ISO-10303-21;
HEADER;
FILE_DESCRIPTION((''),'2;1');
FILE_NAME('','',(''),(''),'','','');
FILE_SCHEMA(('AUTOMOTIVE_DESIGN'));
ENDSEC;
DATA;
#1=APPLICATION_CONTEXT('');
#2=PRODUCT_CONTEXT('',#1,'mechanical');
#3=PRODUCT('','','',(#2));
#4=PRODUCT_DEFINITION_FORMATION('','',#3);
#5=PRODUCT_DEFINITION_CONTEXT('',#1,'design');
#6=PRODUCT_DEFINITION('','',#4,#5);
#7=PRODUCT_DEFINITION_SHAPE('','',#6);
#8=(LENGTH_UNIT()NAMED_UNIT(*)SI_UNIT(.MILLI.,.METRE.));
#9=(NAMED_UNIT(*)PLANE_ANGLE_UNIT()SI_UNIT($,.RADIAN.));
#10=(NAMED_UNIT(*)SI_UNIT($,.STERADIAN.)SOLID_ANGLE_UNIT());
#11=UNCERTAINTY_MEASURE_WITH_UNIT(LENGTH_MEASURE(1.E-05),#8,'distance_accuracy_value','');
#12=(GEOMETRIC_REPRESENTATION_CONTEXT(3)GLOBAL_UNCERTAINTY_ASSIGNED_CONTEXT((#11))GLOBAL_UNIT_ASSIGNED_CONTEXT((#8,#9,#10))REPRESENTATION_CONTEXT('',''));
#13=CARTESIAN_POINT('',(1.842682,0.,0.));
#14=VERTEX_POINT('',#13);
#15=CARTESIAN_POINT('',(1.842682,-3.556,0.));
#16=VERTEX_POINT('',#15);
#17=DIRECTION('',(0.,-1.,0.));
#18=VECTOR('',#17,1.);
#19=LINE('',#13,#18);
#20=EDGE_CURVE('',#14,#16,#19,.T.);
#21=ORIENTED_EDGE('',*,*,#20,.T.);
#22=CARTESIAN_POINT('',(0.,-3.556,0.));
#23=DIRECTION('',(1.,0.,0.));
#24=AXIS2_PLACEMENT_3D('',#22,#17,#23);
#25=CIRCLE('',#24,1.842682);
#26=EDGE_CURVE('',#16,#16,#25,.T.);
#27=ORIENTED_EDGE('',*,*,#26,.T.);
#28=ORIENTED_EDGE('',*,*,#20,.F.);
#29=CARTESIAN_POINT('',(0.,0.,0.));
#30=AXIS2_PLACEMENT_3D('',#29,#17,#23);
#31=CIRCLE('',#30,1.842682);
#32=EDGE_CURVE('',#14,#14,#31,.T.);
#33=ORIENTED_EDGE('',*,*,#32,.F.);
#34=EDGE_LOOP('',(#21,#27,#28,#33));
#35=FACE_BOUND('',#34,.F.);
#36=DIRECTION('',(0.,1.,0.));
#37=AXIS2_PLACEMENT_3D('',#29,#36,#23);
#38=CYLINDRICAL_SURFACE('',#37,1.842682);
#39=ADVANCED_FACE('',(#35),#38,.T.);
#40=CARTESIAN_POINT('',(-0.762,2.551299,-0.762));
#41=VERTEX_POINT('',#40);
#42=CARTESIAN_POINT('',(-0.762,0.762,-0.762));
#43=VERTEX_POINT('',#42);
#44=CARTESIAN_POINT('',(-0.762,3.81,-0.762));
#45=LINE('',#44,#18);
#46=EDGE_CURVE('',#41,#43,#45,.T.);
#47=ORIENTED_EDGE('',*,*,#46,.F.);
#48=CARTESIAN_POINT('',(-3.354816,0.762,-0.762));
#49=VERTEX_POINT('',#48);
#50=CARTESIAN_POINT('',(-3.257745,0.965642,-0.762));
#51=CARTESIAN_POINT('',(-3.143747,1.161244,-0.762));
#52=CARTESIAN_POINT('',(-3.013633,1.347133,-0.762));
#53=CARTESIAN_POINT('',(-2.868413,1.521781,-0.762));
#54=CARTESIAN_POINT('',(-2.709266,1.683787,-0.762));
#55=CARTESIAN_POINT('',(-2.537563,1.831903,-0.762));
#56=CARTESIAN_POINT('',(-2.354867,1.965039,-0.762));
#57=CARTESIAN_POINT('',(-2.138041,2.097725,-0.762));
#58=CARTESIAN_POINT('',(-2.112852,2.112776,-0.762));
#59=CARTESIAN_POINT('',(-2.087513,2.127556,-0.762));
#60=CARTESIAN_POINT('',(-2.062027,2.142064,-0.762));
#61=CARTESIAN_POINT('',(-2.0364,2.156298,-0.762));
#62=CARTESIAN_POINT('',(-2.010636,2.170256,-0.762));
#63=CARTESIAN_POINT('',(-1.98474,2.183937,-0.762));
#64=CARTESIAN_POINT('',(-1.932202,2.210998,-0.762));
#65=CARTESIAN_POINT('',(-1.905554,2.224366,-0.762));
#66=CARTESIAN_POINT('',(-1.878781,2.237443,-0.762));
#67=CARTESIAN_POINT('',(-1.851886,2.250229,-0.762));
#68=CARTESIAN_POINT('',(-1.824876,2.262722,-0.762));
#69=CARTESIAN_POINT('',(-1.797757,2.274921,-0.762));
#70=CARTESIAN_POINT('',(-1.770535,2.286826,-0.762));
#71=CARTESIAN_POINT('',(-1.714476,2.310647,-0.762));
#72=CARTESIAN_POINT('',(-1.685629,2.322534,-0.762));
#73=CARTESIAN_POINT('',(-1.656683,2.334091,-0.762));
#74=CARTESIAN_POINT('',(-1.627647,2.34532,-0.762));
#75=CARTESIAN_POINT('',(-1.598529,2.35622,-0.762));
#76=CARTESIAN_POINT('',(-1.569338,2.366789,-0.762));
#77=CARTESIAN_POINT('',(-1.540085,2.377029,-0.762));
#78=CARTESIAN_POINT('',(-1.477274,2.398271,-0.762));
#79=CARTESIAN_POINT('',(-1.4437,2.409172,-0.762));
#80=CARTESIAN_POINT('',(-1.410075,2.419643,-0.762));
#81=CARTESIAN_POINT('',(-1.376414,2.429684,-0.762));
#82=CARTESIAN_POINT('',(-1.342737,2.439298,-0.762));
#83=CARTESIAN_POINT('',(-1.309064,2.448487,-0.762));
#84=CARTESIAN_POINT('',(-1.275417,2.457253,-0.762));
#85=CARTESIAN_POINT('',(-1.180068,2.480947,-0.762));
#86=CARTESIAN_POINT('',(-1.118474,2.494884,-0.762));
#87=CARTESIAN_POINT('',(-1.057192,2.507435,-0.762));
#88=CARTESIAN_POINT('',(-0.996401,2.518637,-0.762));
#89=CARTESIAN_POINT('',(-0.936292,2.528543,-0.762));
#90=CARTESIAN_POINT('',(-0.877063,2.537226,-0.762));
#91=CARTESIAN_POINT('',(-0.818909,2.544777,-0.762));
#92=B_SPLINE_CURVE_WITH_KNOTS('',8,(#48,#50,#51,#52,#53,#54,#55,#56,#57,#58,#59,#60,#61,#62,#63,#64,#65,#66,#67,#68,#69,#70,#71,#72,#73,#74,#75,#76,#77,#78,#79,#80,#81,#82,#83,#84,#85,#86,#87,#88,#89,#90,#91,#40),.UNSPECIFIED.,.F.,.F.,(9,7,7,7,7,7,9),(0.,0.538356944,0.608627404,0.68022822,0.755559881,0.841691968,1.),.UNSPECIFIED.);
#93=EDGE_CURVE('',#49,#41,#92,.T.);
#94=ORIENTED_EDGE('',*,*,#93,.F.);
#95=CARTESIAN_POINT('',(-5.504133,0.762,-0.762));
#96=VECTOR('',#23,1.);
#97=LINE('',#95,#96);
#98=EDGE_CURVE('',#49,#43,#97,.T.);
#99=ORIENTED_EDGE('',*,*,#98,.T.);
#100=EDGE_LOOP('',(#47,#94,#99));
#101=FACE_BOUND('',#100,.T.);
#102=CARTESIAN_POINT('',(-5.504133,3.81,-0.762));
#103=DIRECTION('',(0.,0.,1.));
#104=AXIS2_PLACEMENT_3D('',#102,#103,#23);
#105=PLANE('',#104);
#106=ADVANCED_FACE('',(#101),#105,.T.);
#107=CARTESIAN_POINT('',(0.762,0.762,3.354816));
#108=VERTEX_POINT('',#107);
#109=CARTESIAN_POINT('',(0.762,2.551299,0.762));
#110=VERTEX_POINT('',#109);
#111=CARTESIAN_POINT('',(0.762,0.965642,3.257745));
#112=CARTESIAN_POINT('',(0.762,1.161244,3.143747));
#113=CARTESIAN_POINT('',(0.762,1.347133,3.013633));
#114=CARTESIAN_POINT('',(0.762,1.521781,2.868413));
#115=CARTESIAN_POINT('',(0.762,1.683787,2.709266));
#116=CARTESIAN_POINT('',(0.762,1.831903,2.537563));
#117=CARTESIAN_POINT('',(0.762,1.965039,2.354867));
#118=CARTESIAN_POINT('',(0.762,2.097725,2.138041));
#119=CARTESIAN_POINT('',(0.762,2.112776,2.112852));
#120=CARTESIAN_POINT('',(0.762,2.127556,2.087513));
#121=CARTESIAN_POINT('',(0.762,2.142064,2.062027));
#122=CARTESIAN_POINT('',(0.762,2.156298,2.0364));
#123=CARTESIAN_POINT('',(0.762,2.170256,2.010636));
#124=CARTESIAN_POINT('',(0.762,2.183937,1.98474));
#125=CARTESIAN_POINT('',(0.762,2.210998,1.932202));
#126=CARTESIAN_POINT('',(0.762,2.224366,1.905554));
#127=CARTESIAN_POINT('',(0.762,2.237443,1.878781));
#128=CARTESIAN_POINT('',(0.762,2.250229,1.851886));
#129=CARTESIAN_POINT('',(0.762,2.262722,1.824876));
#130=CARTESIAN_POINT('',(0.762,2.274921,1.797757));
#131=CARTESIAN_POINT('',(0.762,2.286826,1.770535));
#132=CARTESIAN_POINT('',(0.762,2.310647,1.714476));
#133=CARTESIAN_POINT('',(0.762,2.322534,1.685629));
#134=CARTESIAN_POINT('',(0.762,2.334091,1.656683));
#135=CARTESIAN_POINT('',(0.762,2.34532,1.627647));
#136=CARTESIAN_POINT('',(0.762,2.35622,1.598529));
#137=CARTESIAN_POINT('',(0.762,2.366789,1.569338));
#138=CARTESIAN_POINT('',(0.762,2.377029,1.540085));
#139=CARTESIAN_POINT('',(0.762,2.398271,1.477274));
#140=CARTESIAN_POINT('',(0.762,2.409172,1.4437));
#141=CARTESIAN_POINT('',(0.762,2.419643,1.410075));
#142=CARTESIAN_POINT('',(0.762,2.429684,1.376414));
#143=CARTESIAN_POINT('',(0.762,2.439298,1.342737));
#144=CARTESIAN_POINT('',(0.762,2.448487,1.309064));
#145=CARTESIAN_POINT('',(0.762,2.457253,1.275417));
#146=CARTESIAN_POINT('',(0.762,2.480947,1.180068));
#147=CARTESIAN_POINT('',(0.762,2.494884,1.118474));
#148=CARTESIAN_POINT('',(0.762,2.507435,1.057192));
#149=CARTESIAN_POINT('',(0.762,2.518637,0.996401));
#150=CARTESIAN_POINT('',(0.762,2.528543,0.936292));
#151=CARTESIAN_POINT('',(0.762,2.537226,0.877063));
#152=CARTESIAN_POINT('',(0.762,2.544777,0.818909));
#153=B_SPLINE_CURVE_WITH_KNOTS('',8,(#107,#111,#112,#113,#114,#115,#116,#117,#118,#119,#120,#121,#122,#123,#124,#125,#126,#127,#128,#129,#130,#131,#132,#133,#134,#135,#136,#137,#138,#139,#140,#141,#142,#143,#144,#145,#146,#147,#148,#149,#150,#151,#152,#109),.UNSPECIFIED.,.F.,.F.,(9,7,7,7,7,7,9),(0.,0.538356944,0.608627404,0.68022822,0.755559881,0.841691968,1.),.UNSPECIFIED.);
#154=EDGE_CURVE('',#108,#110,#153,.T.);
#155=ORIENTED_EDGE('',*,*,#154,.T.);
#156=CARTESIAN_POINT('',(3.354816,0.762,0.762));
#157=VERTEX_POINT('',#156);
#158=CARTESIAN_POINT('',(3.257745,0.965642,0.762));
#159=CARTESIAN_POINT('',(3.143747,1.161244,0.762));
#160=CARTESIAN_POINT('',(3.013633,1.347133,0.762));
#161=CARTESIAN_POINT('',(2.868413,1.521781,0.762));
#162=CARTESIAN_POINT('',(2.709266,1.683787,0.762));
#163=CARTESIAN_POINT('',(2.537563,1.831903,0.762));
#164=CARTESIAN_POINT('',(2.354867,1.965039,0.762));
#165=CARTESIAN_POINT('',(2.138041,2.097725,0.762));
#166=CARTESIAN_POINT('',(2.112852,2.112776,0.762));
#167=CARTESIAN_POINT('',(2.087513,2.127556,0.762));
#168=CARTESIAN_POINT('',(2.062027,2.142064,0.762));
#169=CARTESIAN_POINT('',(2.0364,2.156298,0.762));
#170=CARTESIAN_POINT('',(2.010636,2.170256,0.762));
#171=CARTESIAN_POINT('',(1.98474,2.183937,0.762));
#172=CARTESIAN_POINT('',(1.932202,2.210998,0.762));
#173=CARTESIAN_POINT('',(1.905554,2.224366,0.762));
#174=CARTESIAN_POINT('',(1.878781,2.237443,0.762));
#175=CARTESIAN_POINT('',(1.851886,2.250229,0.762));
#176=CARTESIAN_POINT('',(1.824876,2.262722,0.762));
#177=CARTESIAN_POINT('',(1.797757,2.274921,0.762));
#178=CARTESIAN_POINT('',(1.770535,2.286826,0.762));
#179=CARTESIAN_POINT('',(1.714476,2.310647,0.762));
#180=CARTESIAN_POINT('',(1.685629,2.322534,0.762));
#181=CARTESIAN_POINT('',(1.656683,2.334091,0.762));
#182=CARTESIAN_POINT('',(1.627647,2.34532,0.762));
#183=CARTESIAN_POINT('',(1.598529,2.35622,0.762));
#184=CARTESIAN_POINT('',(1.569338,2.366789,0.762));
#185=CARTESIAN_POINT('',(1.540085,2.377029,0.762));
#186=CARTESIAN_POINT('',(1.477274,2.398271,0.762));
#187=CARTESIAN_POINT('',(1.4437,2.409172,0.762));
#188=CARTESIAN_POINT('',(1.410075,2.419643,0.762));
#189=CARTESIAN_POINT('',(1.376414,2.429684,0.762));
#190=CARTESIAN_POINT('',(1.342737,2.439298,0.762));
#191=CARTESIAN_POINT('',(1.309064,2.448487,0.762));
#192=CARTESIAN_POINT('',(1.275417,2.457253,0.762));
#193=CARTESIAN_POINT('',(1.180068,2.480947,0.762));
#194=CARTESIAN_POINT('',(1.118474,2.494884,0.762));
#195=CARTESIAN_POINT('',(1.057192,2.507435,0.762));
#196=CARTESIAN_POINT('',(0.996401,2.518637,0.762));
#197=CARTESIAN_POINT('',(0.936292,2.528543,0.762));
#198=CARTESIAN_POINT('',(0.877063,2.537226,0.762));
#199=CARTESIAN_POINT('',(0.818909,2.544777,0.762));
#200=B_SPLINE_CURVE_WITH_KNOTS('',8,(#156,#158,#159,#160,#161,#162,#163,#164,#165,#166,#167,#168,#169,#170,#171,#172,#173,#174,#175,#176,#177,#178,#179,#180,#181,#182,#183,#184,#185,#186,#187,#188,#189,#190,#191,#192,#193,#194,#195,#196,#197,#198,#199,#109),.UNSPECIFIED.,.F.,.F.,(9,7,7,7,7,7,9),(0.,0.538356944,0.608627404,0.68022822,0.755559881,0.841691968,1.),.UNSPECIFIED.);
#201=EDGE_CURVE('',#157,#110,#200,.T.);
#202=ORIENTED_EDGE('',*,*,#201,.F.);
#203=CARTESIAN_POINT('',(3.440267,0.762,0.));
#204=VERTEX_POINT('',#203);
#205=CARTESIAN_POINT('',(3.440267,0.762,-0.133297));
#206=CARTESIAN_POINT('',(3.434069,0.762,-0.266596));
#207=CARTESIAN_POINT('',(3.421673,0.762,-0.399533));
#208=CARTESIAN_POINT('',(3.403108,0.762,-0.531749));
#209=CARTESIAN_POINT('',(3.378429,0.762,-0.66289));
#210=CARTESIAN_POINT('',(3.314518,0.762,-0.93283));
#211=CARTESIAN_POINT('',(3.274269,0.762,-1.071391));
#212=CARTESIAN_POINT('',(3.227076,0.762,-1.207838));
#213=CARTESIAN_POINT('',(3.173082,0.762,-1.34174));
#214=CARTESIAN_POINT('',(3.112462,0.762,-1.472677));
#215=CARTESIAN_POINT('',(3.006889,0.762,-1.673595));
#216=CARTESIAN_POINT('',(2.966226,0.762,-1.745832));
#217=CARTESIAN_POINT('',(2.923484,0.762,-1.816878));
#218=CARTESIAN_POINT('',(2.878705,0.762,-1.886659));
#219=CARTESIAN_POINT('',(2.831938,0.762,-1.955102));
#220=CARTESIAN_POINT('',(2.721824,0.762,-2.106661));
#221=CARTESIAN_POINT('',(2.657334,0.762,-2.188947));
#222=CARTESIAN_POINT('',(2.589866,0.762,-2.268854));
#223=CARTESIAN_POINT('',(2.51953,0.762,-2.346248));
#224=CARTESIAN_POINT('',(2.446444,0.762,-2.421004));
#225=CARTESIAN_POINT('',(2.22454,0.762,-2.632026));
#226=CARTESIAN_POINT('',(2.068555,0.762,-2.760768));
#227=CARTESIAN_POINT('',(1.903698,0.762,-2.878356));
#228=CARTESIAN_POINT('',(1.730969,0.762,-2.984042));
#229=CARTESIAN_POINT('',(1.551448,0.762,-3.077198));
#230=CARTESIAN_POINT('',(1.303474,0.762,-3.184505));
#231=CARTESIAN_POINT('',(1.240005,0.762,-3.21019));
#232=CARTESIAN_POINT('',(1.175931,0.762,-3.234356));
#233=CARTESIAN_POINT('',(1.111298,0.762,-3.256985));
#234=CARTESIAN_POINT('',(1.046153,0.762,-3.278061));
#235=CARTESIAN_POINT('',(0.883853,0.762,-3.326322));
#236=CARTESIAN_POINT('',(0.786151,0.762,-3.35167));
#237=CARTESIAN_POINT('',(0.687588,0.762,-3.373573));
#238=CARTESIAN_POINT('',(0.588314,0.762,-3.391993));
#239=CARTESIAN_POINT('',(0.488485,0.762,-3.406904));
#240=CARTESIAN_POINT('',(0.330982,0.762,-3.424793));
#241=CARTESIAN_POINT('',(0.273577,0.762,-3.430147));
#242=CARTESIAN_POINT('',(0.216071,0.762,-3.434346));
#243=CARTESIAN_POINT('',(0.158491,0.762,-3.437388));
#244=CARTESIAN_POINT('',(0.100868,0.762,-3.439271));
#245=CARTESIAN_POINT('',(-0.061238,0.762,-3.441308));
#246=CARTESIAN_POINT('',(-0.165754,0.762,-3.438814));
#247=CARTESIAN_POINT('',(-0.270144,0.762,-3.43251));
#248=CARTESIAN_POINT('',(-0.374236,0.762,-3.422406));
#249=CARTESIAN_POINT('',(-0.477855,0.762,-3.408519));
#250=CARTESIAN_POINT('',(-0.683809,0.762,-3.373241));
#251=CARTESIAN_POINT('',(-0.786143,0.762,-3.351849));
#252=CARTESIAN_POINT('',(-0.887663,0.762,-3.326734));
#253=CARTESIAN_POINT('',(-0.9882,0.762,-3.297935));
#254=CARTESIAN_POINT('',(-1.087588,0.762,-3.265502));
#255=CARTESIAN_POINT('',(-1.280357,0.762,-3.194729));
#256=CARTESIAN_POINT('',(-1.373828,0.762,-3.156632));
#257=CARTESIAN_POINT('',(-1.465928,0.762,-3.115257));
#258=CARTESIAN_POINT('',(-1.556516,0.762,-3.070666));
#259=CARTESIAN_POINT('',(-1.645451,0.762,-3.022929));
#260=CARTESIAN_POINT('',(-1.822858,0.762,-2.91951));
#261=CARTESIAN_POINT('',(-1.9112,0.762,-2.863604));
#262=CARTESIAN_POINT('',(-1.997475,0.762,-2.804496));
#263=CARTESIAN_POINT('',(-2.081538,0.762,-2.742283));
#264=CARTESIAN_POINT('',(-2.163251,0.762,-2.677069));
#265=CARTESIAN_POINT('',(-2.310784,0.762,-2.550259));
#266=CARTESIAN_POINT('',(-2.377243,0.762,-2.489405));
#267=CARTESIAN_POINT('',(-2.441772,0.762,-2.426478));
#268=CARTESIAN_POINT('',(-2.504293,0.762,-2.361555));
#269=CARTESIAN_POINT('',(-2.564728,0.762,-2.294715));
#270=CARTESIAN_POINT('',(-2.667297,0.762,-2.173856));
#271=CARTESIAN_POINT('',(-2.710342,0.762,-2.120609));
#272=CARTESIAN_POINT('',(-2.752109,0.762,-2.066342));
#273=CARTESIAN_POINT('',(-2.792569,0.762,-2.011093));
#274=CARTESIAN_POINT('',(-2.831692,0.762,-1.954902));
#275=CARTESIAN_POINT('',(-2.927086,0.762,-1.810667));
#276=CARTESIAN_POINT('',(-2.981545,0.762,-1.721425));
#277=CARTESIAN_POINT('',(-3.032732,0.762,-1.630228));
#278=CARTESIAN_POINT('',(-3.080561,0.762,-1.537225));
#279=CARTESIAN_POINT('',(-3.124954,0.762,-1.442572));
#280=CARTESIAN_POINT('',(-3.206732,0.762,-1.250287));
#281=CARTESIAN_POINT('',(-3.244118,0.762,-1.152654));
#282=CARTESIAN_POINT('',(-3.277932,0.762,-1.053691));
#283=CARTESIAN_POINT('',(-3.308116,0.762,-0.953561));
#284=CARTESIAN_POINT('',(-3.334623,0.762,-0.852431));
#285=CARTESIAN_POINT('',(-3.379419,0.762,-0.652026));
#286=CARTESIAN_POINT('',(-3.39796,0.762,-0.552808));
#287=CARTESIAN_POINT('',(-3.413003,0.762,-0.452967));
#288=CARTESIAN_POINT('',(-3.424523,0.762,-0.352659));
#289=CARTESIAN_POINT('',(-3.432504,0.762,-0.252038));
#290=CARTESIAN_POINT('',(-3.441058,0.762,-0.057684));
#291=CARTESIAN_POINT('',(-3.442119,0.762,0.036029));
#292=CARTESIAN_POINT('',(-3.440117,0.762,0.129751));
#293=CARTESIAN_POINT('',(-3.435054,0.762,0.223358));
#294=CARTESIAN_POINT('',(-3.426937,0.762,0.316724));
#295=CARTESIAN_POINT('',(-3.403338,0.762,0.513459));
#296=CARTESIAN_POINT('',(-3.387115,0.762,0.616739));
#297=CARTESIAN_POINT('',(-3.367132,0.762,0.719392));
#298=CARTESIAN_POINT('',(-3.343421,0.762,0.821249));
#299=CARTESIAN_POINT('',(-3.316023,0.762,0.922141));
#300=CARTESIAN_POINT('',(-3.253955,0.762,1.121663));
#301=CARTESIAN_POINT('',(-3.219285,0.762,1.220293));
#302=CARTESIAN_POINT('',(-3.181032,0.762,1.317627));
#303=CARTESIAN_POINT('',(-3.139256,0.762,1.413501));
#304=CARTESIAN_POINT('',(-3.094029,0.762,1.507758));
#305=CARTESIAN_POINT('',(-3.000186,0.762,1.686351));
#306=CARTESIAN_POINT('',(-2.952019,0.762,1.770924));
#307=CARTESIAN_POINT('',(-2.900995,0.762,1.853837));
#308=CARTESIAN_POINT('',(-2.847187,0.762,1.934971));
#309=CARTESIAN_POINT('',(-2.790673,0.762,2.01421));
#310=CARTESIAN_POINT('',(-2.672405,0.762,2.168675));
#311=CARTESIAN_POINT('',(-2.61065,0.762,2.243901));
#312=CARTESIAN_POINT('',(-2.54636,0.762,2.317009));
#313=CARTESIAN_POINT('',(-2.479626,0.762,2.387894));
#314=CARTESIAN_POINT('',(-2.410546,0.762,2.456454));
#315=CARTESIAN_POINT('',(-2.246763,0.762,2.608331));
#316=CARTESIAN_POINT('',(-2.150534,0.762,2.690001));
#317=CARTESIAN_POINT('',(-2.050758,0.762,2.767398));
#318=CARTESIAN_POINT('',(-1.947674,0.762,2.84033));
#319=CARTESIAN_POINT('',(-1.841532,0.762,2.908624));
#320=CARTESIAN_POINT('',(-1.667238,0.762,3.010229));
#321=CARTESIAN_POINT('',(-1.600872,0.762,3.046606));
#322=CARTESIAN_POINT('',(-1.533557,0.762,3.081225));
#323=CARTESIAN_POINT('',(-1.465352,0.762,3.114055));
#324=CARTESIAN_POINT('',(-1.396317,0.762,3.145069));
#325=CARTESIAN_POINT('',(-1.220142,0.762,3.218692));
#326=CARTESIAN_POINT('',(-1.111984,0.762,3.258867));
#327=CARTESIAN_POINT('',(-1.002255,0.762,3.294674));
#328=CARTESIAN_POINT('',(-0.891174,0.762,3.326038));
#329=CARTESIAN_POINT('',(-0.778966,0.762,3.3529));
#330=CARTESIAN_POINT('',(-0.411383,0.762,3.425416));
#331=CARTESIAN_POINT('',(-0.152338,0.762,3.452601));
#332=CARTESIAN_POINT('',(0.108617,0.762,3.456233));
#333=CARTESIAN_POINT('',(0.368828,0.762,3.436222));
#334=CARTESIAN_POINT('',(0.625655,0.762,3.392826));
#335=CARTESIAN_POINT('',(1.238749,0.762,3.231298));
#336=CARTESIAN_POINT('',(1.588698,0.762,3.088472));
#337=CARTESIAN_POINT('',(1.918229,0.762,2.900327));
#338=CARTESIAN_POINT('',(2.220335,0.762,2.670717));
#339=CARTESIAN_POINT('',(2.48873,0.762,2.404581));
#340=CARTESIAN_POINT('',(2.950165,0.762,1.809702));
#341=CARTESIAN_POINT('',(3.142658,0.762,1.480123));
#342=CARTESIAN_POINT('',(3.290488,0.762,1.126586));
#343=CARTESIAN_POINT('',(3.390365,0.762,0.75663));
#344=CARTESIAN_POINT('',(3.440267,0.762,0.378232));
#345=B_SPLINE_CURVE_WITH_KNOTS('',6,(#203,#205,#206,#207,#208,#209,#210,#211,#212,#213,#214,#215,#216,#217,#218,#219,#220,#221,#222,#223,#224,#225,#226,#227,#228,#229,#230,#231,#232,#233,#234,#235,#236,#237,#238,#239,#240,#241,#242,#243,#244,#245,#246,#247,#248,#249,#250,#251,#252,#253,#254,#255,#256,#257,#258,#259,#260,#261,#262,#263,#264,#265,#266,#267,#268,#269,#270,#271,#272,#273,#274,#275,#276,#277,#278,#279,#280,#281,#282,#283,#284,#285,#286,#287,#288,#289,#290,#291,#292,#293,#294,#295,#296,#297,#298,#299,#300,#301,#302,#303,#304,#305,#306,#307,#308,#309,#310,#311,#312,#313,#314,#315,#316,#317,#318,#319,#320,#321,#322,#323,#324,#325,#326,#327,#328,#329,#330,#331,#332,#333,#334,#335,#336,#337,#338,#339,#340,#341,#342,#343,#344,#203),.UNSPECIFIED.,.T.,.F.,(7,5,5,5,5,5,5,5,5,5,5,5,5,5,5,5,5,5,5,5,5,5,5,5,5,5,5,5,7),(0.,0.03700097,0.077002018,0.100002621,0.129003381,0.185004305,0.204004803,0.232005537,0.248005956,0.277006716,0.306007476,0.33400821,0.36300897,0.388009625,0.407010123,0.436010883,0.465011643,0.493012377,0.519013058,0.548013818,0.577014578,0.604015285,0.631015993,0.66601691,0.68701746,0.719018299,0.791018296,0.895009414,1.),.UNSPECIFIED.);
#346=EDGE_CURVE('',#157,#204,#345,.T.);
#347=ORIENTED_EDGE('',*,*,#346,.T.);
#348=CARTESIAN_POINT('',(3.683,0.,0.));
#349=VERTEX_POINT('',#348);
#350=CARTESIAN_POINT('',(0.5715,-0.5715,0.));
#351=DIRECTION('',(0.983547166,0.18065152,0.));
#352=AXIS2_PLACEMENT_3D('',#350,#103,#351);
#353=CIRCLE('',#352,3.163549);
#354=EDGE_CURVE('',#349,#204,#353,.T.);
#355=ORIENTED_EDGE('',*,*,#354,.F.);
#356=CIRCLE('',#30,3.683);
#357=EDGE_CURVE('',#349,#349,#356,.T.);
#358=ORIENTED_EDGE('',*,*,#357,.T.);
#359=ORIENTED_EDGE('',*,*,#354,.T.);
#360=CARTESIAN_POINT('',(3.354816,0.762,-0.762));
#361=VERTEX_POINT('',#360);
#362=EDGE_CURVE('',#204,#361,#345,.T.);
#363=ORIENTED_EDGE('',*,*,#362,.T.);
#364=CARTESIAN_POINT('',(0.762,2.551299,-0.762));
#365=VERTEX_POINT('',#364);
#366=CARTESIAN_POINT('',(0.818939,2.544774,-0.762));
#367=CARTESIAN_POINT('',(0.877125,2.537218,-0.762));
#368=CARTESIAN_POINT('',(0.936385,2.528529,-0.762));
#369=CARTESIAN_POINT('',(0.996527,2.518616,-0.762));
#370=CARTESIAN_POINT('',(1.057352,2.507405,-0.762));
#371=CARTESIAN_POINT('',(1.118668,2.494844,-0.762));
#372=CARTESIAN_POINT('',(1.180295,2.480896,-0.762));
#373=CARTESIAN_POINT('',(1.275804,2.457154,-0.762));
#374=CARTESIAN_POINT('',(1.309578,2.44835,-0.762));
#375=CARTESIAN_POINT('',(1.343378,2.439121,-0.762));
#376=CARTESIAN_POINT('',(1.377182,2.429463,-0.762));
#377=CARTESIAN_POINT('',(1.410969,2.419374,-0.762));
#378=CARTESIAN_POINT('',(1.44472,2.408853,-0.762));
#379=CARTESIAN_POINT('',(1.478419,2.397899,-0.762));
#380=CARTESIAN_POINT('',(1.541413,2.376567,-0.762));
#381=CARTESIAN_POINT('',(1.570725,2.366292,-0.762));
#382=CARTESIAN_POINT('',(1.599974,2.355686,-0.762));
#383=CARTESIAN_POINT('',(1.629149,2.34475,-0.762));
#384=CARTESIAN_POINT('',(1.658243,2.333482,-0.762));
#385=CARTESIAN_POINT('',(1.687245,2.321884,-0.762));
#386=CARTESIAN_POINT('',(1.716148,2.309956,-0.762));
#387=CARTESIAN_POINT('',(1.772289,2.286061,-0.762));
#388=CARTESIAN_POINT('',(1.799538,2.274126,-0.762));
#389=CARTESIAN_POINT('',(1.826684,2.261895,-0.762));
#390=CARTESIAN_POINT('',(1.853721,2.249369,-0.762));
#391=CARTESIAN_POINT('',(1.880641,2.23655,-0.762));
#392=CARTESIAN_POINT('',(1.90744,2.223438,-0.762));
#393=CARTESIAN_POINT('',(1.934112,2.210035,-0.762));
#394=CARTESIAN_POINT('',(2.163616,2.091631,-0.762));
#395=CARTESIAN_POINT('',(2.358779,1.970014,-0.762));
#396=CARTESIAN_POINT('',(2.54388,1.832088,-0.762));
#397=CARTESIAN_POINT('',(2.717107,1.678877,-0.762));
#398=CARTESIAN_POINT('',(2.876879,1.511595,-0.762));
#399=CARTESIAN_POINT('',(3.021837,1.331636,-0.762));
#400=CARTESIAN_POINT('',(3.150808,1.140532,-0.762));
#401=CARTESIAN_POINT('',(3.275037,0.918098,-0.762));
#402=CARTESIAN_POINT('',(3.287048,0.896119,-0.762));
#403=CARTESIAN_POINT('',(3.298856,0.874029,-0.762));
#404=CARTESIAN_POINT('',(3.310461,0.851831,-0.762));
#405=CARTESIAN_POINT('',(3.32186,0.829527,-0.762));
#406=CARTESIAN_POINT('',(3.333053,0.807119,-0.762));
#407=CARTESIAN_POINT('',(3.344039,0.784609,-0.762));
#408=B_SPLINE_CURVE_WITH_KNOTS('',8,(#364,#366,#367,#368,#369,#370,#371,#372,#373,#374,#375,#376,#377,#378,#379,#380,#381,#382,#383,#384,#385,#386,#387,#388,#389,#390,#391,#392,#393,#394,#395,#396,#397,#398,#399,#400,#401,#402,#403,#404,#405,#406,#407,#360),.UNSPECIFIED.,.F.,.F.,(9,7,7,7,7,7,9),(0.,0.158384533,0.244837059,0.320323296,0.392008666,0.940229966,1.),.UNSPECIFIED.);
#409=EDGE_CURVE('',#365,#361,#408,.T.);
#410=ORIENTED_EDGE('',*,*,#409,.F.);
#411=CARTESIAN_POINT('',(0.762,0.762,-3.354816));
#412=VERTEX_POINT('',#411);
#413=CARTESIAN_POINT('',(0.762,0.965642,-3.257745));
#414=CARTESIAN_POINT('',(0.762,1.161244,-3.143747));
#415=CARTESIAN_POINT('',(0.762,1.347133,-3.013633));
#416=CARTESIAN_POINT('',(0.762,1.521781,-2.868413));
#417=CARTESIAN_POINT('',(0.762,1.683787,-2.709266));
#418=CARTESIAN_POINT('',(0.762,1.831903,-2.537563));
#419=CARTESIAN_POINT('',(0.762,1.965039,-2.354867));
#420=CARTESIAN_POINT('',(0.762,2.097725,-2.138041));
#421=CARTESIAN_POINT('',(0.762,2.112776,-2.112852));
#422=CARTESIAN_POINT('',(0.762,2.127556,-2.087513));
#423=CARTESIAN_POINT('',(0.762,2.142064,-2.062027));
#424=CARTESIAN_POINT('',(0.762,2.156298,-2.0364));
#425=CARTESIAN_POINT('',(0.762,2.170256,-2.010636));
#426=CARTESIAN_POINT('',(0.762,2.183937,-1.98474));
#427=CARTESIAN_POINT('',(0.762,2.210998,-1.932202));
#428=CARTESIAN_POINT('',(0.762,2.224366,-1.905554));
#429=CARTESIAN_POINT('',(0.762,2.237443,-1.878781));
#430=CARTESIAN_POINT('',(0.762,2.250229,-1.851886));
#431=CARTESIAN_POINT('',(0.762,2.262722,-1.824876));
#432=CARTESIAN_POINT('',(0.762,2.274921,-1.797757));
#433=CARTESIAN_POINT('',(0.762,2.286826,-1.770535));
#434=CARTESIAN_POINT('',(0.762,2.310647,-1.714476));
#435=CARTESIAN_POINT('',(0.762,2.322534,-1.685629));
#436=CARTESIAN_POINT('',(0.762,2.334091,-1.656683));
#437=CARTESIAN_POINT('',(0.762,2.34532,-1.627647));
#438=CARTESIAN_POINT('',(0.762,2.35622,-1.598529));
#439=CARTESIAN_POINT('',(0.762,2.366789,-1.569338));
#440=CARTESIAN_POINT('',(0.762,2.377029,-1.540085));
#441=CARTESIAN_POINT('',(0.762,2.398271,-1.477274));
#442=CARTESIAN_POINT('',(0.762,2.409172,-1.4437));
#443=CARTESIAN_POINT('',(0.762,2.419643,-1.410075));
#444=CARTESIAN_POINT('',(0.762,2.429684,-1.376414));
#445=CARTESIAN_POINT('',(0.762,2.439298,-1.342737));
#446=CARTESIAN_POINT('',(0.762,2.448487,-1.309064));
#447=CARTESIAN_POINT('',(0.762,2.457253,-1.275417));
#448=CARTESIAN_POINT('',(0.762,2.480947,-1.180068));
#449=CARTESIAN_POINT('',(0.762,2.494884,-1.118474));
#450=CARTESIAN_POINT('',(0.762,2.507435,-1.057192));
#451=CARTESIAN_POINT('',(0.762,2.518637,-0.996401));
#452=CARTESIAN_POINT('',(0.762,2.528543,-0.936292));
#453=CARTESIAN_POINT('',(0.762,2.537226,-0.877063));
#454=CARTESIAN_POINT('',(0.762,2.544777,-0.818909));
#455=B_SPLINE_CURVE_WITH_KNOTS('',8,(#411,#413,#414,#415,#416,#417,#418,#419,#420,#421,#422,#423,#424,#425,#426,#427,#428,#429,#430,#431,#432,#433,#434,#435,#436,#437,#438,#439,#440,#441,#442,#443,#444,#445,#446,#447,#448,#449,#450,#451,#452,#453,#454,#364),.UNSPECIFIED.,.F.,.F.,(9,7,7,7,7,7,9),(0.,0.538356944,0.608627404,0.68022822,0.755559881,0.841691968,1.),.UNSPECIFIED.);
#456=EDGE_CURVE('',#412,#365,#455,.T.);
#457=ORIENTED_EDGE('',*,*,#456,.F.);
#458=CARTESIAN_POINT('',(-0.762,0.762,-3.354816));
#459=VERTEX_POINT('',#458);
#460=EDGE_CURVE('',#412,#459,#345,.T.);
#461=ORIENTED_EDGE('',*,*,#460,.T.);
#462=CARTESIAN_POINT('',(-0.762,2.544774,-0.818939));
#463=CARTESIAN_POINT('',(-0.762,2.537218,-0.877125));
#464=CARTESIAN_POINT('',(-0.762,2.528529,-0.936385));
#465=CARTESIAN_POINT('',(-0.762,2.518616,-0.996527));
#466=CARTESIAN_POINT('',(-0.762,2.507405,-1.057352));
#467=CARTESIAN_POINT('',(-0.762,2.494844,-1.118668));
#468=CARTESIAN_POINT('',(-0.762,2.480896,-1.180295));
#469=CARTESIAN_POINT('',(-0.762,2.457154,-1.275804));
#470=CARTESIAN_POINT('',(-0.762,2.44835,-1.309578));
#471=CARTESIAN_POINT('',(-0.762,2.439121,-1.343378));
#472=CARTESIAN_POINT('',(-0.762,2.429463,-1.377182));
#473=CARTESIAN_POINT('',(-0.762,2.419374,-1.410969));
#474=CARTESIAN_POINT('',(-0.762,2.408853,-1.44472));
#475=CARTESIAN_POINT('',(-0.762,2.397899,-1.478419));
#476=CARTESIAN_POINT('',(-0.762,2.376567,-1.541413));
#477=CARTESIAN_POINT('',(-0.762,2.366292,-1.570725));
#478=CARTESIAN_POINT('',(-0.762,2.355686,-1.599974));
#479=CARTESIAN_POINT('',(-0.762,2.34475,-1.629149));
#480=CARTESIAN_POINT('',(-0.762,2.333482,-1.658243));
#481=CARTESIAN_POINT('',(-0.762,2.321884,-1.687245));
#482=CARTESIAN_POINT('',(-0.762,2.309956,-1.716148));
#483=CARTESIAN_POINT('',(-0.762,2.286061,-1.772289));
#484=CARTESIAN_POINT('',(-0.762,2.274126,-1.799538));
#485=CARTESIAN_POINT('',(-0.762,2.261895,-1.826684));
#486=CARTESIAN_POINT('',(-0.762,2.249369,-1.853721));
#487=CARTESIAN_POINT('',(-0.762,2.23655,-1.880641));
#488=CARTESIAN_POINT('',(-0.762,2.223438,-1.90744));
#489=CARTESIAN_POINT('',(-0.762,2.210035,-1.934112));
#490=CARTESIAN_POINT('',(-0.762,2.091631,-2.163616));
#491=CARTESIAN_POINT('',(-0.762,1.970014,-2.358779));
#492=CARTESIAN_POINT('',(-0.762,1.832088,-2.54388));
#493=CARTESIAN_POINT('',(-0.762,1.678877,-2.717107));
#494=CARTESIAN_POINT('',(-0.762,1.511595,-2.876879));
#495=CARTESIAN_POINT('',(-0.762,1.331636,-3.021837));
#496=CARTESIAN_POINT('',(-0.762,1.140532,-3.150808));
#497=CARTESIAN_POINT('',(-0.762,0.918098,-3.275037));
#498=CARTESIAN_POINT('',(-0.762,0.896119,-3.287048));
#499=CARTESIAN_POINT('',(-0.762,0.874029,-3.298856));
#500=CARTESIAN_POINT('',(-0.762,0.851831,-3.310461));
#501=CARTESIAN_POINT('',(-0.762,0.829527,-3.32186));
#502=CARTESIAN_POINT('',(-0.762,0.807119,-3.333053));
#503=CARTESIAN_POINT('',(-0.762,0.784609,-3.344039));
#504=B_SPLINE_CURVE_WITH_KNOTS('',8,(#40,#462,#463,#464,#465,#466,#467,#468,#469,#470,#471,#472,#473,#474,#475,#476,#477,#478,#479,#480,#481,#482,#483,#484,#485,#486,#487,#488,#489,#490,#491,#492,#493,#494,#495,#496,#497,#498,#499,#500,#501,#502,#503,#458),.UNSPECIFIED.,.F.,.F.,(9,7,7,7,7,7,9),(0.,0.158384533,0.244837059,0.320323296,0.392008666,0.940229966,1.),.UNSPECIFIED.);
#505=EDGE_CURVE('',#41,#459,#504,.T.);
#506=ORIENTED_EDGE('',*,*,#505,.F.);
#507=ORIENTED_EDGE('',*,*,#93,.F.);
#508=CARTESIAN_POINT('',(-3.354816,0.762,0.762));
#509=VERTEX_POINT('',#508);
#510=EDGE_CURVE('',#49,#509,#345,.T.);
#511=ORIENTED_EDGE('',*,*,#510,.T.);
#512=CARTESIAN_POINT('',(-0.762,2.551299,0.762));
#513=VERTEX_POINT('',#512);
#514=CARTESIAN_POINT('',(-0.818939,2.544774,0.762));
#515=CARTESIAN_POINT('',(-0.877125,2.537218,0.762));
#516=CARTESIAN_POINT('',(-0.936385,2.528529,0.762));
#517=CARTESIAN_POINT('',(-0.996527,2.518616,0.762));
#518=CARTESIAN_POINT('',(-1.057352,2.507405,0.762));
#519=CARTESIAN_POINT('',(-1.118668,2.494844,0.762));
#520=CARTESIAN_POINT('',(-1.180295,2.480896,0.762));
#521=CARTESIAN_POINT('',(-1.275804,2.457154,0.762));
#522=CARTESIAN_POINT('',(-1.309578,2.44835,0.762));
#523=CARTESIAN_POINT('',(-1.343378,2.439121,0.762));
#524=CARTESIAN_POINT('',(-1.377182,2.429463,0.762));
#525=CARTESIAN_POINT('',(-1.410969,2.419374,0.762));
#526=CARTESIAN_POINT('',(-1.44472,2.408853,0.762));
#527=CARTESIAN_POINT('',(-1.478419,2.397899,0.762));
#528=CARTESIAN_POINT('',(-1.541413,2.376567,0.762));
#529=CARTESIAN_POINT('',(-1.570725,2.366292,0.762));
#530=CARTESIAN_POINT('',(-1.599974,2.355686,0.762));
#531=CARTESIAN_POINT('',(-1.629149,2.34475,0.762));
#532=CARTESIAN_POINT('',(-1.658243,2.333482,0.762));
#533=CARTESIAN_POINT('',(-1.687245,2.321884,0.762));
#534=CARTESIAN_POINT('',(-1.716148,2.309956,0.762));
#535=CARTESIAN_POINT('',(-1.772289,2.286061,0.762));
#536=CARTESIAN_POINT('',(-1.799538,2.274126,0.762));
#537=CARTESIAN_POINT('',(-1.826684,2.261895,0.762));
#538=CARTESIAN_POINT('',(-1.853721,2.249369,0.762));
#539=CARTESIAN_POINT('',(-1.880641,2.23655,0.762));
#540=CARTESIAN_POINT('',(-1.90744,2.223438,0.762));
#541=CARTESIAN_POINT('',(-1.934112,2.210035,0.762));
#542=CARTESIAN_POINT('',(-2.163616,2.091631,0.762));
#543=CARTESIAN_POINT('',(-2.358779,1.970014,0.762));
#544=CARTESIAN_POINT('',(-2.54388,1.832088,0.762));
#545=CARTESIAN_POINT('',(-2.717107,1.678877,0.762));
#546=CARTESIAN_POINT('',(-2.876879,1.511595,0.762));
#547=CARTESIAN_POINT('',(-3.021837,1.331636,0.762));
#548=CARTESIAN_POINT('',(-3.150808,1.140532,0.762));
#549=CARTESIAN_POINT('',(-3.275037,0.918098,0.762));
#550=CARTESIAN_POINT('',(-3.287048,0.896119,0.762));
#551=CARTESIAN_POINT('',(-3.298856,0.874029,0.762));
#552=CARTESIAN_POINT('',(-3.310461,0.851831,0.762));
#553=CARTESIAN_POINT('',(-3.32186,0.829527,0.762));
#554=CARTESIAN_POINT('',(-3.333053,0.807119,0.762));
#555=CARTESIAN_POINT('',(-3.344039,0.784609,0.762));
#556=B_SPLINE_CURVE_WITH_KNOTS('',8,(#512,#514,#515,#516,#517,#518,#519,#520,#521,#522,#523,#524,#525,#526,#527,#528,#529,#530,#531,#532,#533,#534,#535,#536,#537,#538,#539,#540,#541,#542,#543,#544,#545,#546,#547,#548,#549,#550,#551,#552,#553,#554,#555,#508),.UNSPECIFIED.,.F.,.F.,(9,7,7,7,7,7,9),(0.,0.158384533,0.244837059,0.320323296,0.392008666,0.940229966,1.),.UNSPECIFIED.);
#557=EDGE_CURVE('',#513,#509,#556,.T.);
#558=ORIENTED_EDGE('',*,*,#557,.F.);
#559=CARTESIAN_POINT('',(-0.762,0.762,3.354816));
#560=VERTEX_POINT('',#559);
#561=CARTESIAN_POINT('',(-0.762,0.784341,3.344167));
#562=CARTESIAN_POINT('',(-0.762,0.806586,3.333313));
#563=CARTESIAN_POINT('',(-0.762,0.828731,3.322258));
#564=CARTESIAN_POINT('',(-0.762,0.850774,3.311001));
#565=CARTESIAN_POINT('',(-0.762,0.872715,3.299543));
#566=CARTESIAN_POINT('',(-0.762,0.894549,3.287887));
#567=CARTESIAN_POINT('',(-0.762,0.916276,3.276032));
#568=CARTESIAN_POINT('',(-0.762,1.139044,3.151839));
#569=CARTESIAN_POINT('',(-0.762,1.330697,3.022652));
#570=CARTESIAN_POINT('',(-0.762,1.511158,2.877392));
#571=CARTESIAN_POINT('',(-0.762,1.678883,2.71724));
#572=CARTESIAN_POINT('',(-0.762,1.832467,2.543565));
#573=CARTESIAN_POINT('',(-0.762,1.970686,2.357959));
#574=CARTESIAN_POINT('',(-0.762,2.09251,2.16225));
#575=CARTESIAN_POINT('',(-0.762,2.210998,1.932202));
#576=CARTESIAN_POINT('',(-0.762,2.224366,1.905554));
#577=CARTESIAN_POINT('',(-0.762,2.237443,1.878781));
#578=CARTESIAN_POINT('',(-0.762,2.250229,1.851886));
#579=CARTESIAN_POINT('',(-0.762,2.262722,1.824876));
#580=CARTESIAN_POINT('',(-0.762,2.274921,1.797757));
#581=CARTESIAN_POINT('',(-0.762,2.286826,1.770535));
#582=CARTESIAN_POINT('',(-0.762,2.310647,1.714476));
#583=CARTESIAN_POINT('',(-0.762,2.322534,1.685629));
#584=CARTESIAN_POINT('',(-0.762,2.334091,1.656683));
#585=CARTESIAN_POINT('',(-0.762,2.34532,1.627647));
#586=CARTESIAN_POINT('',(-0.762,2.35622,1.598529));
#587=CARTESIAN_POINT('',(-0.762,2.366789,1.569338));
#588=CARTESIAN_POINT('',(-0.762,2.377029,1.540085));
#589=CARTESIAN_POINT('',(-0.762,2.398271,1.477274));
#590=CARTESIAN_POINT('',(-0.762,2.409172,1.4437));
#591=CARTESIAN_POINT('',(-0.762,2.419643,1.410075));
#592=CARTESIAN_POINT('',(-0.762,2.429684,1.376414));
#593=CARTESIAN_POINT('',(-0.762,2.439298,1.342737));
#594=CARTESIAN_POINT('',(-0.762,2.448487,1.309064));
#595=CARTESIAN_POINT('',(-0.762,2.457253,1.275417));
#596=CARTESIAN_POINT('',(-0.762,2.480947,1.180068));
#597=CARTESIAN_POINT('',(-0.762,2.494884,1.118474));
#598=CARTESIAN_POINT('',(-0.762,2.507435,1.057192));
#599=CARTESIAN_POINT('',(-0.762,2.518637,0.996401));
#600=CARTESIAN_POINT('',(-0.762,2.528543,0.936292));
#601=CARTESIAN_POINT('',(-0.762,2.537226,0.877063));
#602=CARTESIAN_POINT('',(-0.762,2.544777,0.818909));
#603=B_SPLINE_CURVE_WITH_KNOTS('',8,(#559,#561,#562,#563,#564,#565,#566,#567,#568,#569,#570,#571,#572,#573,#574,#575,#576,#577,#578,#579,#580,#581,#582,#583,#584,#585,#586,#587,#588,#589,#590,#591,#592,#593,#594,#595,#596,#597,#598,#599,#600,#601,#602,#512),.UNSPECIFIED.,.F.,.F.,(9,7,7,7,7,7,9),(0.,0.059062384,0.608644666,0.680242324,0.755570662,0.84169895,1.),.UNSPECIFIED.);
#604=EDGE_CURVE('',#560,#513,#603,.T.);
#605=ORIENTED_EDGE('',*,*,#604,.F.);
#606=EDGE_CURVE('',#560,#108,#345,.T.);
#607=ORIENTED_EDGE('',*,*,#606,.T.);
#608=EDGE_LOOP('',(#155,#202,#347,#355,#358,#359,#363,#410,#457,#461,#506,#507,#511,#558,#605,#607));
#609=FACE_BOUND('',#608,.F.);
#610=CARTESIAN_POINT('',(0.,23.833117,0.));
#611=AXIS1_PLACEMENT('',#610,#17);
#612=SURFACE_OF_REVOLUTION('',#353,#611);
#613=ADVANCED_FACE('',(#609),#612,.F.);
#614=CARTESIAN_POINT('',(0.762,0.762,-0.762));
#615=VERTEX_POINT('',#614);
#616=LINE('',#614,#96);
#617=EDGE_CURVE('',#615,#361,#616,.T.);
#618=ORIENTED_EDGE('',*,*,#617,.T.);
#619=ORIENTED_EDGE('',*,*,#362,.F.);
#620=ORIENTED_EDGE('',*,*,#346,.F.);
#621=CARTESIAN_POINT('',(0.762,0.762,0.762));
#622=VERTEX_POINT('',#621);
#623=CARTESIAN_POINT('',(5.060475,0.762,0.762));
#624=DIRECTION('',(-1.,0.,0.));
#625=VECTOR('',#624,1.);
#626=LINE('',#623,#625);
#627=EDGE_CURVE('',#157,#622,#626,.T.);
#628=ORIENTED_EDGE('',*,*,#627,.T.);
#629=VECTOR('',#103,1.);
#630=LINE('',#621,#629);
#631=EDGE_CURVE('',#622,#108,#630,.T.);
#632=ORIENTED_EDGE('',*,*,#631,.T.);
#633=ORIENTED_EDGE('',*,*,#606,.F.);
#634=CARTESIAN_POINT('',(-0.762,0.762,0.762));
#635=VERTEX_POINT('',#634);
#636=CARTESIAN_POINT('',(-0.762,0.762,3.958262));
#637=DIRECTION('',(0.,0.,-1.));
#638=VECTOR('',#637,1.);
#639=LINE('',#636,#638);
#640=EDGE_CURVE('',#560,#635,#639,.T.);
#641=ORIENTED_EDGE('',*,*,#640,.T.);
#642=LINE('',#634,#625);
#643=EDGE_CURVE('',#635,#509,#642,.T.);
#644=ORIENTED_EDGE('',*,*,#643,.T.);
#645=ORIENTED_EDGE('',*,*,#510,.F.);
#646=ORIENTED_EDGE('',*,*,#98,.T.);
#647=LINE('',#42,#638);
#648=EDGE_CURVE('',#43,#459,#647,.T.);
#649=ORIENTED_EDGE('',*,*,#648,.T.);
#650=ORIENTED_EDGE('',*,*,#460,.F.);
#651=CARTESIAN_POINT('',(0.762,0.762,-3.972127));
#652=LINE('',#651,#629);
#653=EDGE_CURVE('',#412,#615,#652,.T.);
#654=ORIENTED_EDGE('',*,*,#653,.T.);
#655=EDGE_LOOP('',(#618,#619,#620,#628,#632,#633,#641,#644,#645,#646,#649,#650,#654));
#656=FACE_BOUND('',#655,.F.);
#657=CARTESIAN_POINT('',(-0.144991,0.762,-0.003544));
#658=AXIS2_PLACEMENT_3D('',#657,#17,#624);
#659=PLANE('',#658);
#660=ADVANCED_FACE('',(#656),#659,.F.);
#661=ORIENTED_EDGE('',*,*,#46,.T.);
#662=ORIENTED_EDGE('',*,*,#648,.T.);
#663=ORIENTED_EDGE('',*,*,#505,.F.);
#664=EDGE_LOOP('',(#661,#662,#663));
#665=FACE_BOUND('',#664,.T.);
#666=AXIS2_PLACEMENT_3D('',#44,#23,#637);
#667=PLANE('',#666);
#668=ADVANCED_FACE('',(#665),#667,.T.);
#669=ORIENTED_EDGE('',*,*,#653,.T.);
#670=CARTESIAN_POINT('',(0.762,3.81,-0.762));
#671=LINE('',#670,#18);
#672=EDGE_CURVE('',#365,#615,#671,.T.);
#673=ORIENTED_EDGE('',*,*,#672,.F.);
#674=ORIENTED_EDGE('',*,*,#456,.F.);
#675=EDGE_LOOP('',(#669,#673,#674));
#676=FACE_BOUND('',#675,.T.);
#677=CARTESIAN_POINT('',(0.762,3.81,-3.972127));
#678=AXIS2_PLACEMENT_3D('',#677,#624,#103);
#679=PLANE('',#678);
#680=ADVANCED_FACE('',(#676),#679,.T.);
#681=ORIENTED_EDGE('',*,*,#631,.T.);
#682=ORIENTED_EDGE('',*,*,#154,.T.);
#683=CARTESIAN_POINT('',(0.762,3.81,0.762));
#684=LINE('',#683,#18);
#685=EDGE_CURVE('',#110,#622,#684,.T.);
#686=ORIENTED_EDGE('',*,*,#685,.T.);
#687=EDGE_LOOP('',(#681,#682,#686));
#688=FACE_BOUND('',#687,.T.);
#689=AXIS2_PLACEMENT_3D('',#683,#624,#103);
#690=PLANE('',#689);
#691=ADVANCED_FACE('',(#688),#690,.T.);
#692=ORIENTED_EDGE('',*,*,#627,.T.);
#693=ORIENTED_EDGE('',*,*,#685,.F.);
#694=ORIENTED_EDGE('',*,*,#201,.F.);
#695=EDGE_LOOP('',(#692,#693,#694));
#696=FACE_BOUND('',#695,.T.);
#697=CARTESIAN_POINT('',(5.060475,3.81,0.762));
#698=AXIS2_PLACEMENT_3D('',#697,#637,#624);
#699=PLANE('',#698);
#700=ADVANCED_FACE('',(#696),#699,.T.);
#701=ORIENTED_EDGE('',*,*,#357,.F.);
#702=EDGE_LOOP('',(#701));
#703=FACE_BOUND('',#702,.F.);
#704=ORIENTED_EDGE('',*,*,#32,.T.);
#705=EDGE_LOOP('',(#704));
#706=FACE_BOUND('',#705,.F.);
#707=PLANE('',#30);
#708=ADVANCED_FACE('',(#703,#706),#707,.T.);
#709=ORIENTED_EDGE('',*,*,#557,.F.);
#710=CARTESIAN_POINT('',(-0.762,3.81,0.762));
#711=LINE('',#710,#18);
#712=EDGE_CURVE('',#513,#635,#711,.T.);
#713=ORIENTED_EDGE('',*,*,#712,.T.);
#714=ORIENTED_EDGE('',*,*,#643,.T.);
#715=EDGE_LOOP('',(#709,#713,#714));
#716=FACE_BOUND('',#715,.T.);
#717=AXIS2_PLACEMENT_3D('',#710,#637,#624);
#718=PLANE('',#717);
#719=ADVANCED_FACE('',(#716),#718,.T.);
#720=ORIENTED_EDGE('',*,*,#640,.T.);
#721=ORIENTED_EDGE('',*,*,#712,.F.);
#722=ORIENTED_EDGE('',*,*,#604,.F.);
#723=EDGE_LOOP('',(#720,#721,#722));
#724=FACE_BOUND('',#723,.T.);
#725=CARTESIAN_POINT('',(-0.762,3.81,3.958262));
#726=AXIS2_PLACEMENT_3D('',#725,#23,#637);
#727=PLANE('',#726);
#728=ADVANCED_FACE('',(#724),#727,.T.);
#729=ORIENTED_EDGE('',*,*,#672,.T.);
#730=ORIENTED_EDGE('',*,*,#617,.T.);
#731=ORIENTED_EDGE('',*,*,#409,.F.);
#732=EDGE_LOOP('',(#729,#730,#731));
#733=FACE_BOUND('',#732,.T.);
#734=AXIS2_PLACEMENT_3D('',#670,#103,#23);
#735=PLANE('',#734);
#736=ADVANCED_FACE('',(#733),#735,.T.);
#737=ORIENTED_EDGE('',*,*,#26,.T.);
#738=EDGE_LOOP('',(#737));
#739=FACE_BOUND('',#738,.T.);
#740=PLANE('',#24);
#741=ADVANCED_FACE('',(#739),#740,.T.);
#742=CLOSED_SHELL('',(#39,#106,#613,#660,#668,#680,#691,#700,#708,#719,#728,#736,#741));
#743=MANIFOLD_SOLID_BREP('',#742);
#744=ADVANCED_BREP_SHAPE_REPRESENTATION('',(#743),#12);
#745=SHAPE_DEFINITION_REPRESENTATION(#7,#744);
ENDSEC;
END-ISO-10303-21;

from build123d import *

# Parameters (mm, degrees)
CUT_EXTRUDE1_DEPTH  = 3.048
SKETCH3_R           = 1.842682312
BOSS_EXTRUDE1_DEPTH = 3.556


with BuildPart() as part:
    # Sketch1 → Revolve1 (revolve)
    with BuildSketch(Plane.XY):
        with BuildLine():
            Line((0, 0), (3.683, 0))
            ThreePointArc((3.683, 0), (2.367551224, 2.032774275), (0, 2.54))
            Line((0, 2.54), (0, 0))
        make_face()
    revolve(axis=Axis((0, 23.833116883, 0), (0, -1, 0)))

    # Sketch2 → Cut-Extrude1 (cut)
    with BuildSketch(Plane(origin=(0, 3.81, 0), x_dir=(-1, 0, 0), z_dir=(0, -1, 0))):
        Polygon((-0.762, -0.762), (-0.762, -3.958262237), (0.762, -3.958262237), (0.762, -0.762), (5.504133478, -0.762), (5.504133478, 0.762), (0.762, 0.762), (0.762, 3.972126553), (-0.762, 3.972126553), (-0.762, 0.762), (-5.060475364, 0.762), (-5.060475364, -0.762), align=None)
    extrude(amount=CUT_EXTRUDE1_DEPTH, mode=Mode.SUBTRACT)

    # Sketch3 → Boss-Extrude1 (add)
    with BuildSketch(Plane.XZ):
        Circle(SKETCH3_R)
    extrude(amount=BOSS_EXTRUDE1_DEPTH)


solid = part.part
